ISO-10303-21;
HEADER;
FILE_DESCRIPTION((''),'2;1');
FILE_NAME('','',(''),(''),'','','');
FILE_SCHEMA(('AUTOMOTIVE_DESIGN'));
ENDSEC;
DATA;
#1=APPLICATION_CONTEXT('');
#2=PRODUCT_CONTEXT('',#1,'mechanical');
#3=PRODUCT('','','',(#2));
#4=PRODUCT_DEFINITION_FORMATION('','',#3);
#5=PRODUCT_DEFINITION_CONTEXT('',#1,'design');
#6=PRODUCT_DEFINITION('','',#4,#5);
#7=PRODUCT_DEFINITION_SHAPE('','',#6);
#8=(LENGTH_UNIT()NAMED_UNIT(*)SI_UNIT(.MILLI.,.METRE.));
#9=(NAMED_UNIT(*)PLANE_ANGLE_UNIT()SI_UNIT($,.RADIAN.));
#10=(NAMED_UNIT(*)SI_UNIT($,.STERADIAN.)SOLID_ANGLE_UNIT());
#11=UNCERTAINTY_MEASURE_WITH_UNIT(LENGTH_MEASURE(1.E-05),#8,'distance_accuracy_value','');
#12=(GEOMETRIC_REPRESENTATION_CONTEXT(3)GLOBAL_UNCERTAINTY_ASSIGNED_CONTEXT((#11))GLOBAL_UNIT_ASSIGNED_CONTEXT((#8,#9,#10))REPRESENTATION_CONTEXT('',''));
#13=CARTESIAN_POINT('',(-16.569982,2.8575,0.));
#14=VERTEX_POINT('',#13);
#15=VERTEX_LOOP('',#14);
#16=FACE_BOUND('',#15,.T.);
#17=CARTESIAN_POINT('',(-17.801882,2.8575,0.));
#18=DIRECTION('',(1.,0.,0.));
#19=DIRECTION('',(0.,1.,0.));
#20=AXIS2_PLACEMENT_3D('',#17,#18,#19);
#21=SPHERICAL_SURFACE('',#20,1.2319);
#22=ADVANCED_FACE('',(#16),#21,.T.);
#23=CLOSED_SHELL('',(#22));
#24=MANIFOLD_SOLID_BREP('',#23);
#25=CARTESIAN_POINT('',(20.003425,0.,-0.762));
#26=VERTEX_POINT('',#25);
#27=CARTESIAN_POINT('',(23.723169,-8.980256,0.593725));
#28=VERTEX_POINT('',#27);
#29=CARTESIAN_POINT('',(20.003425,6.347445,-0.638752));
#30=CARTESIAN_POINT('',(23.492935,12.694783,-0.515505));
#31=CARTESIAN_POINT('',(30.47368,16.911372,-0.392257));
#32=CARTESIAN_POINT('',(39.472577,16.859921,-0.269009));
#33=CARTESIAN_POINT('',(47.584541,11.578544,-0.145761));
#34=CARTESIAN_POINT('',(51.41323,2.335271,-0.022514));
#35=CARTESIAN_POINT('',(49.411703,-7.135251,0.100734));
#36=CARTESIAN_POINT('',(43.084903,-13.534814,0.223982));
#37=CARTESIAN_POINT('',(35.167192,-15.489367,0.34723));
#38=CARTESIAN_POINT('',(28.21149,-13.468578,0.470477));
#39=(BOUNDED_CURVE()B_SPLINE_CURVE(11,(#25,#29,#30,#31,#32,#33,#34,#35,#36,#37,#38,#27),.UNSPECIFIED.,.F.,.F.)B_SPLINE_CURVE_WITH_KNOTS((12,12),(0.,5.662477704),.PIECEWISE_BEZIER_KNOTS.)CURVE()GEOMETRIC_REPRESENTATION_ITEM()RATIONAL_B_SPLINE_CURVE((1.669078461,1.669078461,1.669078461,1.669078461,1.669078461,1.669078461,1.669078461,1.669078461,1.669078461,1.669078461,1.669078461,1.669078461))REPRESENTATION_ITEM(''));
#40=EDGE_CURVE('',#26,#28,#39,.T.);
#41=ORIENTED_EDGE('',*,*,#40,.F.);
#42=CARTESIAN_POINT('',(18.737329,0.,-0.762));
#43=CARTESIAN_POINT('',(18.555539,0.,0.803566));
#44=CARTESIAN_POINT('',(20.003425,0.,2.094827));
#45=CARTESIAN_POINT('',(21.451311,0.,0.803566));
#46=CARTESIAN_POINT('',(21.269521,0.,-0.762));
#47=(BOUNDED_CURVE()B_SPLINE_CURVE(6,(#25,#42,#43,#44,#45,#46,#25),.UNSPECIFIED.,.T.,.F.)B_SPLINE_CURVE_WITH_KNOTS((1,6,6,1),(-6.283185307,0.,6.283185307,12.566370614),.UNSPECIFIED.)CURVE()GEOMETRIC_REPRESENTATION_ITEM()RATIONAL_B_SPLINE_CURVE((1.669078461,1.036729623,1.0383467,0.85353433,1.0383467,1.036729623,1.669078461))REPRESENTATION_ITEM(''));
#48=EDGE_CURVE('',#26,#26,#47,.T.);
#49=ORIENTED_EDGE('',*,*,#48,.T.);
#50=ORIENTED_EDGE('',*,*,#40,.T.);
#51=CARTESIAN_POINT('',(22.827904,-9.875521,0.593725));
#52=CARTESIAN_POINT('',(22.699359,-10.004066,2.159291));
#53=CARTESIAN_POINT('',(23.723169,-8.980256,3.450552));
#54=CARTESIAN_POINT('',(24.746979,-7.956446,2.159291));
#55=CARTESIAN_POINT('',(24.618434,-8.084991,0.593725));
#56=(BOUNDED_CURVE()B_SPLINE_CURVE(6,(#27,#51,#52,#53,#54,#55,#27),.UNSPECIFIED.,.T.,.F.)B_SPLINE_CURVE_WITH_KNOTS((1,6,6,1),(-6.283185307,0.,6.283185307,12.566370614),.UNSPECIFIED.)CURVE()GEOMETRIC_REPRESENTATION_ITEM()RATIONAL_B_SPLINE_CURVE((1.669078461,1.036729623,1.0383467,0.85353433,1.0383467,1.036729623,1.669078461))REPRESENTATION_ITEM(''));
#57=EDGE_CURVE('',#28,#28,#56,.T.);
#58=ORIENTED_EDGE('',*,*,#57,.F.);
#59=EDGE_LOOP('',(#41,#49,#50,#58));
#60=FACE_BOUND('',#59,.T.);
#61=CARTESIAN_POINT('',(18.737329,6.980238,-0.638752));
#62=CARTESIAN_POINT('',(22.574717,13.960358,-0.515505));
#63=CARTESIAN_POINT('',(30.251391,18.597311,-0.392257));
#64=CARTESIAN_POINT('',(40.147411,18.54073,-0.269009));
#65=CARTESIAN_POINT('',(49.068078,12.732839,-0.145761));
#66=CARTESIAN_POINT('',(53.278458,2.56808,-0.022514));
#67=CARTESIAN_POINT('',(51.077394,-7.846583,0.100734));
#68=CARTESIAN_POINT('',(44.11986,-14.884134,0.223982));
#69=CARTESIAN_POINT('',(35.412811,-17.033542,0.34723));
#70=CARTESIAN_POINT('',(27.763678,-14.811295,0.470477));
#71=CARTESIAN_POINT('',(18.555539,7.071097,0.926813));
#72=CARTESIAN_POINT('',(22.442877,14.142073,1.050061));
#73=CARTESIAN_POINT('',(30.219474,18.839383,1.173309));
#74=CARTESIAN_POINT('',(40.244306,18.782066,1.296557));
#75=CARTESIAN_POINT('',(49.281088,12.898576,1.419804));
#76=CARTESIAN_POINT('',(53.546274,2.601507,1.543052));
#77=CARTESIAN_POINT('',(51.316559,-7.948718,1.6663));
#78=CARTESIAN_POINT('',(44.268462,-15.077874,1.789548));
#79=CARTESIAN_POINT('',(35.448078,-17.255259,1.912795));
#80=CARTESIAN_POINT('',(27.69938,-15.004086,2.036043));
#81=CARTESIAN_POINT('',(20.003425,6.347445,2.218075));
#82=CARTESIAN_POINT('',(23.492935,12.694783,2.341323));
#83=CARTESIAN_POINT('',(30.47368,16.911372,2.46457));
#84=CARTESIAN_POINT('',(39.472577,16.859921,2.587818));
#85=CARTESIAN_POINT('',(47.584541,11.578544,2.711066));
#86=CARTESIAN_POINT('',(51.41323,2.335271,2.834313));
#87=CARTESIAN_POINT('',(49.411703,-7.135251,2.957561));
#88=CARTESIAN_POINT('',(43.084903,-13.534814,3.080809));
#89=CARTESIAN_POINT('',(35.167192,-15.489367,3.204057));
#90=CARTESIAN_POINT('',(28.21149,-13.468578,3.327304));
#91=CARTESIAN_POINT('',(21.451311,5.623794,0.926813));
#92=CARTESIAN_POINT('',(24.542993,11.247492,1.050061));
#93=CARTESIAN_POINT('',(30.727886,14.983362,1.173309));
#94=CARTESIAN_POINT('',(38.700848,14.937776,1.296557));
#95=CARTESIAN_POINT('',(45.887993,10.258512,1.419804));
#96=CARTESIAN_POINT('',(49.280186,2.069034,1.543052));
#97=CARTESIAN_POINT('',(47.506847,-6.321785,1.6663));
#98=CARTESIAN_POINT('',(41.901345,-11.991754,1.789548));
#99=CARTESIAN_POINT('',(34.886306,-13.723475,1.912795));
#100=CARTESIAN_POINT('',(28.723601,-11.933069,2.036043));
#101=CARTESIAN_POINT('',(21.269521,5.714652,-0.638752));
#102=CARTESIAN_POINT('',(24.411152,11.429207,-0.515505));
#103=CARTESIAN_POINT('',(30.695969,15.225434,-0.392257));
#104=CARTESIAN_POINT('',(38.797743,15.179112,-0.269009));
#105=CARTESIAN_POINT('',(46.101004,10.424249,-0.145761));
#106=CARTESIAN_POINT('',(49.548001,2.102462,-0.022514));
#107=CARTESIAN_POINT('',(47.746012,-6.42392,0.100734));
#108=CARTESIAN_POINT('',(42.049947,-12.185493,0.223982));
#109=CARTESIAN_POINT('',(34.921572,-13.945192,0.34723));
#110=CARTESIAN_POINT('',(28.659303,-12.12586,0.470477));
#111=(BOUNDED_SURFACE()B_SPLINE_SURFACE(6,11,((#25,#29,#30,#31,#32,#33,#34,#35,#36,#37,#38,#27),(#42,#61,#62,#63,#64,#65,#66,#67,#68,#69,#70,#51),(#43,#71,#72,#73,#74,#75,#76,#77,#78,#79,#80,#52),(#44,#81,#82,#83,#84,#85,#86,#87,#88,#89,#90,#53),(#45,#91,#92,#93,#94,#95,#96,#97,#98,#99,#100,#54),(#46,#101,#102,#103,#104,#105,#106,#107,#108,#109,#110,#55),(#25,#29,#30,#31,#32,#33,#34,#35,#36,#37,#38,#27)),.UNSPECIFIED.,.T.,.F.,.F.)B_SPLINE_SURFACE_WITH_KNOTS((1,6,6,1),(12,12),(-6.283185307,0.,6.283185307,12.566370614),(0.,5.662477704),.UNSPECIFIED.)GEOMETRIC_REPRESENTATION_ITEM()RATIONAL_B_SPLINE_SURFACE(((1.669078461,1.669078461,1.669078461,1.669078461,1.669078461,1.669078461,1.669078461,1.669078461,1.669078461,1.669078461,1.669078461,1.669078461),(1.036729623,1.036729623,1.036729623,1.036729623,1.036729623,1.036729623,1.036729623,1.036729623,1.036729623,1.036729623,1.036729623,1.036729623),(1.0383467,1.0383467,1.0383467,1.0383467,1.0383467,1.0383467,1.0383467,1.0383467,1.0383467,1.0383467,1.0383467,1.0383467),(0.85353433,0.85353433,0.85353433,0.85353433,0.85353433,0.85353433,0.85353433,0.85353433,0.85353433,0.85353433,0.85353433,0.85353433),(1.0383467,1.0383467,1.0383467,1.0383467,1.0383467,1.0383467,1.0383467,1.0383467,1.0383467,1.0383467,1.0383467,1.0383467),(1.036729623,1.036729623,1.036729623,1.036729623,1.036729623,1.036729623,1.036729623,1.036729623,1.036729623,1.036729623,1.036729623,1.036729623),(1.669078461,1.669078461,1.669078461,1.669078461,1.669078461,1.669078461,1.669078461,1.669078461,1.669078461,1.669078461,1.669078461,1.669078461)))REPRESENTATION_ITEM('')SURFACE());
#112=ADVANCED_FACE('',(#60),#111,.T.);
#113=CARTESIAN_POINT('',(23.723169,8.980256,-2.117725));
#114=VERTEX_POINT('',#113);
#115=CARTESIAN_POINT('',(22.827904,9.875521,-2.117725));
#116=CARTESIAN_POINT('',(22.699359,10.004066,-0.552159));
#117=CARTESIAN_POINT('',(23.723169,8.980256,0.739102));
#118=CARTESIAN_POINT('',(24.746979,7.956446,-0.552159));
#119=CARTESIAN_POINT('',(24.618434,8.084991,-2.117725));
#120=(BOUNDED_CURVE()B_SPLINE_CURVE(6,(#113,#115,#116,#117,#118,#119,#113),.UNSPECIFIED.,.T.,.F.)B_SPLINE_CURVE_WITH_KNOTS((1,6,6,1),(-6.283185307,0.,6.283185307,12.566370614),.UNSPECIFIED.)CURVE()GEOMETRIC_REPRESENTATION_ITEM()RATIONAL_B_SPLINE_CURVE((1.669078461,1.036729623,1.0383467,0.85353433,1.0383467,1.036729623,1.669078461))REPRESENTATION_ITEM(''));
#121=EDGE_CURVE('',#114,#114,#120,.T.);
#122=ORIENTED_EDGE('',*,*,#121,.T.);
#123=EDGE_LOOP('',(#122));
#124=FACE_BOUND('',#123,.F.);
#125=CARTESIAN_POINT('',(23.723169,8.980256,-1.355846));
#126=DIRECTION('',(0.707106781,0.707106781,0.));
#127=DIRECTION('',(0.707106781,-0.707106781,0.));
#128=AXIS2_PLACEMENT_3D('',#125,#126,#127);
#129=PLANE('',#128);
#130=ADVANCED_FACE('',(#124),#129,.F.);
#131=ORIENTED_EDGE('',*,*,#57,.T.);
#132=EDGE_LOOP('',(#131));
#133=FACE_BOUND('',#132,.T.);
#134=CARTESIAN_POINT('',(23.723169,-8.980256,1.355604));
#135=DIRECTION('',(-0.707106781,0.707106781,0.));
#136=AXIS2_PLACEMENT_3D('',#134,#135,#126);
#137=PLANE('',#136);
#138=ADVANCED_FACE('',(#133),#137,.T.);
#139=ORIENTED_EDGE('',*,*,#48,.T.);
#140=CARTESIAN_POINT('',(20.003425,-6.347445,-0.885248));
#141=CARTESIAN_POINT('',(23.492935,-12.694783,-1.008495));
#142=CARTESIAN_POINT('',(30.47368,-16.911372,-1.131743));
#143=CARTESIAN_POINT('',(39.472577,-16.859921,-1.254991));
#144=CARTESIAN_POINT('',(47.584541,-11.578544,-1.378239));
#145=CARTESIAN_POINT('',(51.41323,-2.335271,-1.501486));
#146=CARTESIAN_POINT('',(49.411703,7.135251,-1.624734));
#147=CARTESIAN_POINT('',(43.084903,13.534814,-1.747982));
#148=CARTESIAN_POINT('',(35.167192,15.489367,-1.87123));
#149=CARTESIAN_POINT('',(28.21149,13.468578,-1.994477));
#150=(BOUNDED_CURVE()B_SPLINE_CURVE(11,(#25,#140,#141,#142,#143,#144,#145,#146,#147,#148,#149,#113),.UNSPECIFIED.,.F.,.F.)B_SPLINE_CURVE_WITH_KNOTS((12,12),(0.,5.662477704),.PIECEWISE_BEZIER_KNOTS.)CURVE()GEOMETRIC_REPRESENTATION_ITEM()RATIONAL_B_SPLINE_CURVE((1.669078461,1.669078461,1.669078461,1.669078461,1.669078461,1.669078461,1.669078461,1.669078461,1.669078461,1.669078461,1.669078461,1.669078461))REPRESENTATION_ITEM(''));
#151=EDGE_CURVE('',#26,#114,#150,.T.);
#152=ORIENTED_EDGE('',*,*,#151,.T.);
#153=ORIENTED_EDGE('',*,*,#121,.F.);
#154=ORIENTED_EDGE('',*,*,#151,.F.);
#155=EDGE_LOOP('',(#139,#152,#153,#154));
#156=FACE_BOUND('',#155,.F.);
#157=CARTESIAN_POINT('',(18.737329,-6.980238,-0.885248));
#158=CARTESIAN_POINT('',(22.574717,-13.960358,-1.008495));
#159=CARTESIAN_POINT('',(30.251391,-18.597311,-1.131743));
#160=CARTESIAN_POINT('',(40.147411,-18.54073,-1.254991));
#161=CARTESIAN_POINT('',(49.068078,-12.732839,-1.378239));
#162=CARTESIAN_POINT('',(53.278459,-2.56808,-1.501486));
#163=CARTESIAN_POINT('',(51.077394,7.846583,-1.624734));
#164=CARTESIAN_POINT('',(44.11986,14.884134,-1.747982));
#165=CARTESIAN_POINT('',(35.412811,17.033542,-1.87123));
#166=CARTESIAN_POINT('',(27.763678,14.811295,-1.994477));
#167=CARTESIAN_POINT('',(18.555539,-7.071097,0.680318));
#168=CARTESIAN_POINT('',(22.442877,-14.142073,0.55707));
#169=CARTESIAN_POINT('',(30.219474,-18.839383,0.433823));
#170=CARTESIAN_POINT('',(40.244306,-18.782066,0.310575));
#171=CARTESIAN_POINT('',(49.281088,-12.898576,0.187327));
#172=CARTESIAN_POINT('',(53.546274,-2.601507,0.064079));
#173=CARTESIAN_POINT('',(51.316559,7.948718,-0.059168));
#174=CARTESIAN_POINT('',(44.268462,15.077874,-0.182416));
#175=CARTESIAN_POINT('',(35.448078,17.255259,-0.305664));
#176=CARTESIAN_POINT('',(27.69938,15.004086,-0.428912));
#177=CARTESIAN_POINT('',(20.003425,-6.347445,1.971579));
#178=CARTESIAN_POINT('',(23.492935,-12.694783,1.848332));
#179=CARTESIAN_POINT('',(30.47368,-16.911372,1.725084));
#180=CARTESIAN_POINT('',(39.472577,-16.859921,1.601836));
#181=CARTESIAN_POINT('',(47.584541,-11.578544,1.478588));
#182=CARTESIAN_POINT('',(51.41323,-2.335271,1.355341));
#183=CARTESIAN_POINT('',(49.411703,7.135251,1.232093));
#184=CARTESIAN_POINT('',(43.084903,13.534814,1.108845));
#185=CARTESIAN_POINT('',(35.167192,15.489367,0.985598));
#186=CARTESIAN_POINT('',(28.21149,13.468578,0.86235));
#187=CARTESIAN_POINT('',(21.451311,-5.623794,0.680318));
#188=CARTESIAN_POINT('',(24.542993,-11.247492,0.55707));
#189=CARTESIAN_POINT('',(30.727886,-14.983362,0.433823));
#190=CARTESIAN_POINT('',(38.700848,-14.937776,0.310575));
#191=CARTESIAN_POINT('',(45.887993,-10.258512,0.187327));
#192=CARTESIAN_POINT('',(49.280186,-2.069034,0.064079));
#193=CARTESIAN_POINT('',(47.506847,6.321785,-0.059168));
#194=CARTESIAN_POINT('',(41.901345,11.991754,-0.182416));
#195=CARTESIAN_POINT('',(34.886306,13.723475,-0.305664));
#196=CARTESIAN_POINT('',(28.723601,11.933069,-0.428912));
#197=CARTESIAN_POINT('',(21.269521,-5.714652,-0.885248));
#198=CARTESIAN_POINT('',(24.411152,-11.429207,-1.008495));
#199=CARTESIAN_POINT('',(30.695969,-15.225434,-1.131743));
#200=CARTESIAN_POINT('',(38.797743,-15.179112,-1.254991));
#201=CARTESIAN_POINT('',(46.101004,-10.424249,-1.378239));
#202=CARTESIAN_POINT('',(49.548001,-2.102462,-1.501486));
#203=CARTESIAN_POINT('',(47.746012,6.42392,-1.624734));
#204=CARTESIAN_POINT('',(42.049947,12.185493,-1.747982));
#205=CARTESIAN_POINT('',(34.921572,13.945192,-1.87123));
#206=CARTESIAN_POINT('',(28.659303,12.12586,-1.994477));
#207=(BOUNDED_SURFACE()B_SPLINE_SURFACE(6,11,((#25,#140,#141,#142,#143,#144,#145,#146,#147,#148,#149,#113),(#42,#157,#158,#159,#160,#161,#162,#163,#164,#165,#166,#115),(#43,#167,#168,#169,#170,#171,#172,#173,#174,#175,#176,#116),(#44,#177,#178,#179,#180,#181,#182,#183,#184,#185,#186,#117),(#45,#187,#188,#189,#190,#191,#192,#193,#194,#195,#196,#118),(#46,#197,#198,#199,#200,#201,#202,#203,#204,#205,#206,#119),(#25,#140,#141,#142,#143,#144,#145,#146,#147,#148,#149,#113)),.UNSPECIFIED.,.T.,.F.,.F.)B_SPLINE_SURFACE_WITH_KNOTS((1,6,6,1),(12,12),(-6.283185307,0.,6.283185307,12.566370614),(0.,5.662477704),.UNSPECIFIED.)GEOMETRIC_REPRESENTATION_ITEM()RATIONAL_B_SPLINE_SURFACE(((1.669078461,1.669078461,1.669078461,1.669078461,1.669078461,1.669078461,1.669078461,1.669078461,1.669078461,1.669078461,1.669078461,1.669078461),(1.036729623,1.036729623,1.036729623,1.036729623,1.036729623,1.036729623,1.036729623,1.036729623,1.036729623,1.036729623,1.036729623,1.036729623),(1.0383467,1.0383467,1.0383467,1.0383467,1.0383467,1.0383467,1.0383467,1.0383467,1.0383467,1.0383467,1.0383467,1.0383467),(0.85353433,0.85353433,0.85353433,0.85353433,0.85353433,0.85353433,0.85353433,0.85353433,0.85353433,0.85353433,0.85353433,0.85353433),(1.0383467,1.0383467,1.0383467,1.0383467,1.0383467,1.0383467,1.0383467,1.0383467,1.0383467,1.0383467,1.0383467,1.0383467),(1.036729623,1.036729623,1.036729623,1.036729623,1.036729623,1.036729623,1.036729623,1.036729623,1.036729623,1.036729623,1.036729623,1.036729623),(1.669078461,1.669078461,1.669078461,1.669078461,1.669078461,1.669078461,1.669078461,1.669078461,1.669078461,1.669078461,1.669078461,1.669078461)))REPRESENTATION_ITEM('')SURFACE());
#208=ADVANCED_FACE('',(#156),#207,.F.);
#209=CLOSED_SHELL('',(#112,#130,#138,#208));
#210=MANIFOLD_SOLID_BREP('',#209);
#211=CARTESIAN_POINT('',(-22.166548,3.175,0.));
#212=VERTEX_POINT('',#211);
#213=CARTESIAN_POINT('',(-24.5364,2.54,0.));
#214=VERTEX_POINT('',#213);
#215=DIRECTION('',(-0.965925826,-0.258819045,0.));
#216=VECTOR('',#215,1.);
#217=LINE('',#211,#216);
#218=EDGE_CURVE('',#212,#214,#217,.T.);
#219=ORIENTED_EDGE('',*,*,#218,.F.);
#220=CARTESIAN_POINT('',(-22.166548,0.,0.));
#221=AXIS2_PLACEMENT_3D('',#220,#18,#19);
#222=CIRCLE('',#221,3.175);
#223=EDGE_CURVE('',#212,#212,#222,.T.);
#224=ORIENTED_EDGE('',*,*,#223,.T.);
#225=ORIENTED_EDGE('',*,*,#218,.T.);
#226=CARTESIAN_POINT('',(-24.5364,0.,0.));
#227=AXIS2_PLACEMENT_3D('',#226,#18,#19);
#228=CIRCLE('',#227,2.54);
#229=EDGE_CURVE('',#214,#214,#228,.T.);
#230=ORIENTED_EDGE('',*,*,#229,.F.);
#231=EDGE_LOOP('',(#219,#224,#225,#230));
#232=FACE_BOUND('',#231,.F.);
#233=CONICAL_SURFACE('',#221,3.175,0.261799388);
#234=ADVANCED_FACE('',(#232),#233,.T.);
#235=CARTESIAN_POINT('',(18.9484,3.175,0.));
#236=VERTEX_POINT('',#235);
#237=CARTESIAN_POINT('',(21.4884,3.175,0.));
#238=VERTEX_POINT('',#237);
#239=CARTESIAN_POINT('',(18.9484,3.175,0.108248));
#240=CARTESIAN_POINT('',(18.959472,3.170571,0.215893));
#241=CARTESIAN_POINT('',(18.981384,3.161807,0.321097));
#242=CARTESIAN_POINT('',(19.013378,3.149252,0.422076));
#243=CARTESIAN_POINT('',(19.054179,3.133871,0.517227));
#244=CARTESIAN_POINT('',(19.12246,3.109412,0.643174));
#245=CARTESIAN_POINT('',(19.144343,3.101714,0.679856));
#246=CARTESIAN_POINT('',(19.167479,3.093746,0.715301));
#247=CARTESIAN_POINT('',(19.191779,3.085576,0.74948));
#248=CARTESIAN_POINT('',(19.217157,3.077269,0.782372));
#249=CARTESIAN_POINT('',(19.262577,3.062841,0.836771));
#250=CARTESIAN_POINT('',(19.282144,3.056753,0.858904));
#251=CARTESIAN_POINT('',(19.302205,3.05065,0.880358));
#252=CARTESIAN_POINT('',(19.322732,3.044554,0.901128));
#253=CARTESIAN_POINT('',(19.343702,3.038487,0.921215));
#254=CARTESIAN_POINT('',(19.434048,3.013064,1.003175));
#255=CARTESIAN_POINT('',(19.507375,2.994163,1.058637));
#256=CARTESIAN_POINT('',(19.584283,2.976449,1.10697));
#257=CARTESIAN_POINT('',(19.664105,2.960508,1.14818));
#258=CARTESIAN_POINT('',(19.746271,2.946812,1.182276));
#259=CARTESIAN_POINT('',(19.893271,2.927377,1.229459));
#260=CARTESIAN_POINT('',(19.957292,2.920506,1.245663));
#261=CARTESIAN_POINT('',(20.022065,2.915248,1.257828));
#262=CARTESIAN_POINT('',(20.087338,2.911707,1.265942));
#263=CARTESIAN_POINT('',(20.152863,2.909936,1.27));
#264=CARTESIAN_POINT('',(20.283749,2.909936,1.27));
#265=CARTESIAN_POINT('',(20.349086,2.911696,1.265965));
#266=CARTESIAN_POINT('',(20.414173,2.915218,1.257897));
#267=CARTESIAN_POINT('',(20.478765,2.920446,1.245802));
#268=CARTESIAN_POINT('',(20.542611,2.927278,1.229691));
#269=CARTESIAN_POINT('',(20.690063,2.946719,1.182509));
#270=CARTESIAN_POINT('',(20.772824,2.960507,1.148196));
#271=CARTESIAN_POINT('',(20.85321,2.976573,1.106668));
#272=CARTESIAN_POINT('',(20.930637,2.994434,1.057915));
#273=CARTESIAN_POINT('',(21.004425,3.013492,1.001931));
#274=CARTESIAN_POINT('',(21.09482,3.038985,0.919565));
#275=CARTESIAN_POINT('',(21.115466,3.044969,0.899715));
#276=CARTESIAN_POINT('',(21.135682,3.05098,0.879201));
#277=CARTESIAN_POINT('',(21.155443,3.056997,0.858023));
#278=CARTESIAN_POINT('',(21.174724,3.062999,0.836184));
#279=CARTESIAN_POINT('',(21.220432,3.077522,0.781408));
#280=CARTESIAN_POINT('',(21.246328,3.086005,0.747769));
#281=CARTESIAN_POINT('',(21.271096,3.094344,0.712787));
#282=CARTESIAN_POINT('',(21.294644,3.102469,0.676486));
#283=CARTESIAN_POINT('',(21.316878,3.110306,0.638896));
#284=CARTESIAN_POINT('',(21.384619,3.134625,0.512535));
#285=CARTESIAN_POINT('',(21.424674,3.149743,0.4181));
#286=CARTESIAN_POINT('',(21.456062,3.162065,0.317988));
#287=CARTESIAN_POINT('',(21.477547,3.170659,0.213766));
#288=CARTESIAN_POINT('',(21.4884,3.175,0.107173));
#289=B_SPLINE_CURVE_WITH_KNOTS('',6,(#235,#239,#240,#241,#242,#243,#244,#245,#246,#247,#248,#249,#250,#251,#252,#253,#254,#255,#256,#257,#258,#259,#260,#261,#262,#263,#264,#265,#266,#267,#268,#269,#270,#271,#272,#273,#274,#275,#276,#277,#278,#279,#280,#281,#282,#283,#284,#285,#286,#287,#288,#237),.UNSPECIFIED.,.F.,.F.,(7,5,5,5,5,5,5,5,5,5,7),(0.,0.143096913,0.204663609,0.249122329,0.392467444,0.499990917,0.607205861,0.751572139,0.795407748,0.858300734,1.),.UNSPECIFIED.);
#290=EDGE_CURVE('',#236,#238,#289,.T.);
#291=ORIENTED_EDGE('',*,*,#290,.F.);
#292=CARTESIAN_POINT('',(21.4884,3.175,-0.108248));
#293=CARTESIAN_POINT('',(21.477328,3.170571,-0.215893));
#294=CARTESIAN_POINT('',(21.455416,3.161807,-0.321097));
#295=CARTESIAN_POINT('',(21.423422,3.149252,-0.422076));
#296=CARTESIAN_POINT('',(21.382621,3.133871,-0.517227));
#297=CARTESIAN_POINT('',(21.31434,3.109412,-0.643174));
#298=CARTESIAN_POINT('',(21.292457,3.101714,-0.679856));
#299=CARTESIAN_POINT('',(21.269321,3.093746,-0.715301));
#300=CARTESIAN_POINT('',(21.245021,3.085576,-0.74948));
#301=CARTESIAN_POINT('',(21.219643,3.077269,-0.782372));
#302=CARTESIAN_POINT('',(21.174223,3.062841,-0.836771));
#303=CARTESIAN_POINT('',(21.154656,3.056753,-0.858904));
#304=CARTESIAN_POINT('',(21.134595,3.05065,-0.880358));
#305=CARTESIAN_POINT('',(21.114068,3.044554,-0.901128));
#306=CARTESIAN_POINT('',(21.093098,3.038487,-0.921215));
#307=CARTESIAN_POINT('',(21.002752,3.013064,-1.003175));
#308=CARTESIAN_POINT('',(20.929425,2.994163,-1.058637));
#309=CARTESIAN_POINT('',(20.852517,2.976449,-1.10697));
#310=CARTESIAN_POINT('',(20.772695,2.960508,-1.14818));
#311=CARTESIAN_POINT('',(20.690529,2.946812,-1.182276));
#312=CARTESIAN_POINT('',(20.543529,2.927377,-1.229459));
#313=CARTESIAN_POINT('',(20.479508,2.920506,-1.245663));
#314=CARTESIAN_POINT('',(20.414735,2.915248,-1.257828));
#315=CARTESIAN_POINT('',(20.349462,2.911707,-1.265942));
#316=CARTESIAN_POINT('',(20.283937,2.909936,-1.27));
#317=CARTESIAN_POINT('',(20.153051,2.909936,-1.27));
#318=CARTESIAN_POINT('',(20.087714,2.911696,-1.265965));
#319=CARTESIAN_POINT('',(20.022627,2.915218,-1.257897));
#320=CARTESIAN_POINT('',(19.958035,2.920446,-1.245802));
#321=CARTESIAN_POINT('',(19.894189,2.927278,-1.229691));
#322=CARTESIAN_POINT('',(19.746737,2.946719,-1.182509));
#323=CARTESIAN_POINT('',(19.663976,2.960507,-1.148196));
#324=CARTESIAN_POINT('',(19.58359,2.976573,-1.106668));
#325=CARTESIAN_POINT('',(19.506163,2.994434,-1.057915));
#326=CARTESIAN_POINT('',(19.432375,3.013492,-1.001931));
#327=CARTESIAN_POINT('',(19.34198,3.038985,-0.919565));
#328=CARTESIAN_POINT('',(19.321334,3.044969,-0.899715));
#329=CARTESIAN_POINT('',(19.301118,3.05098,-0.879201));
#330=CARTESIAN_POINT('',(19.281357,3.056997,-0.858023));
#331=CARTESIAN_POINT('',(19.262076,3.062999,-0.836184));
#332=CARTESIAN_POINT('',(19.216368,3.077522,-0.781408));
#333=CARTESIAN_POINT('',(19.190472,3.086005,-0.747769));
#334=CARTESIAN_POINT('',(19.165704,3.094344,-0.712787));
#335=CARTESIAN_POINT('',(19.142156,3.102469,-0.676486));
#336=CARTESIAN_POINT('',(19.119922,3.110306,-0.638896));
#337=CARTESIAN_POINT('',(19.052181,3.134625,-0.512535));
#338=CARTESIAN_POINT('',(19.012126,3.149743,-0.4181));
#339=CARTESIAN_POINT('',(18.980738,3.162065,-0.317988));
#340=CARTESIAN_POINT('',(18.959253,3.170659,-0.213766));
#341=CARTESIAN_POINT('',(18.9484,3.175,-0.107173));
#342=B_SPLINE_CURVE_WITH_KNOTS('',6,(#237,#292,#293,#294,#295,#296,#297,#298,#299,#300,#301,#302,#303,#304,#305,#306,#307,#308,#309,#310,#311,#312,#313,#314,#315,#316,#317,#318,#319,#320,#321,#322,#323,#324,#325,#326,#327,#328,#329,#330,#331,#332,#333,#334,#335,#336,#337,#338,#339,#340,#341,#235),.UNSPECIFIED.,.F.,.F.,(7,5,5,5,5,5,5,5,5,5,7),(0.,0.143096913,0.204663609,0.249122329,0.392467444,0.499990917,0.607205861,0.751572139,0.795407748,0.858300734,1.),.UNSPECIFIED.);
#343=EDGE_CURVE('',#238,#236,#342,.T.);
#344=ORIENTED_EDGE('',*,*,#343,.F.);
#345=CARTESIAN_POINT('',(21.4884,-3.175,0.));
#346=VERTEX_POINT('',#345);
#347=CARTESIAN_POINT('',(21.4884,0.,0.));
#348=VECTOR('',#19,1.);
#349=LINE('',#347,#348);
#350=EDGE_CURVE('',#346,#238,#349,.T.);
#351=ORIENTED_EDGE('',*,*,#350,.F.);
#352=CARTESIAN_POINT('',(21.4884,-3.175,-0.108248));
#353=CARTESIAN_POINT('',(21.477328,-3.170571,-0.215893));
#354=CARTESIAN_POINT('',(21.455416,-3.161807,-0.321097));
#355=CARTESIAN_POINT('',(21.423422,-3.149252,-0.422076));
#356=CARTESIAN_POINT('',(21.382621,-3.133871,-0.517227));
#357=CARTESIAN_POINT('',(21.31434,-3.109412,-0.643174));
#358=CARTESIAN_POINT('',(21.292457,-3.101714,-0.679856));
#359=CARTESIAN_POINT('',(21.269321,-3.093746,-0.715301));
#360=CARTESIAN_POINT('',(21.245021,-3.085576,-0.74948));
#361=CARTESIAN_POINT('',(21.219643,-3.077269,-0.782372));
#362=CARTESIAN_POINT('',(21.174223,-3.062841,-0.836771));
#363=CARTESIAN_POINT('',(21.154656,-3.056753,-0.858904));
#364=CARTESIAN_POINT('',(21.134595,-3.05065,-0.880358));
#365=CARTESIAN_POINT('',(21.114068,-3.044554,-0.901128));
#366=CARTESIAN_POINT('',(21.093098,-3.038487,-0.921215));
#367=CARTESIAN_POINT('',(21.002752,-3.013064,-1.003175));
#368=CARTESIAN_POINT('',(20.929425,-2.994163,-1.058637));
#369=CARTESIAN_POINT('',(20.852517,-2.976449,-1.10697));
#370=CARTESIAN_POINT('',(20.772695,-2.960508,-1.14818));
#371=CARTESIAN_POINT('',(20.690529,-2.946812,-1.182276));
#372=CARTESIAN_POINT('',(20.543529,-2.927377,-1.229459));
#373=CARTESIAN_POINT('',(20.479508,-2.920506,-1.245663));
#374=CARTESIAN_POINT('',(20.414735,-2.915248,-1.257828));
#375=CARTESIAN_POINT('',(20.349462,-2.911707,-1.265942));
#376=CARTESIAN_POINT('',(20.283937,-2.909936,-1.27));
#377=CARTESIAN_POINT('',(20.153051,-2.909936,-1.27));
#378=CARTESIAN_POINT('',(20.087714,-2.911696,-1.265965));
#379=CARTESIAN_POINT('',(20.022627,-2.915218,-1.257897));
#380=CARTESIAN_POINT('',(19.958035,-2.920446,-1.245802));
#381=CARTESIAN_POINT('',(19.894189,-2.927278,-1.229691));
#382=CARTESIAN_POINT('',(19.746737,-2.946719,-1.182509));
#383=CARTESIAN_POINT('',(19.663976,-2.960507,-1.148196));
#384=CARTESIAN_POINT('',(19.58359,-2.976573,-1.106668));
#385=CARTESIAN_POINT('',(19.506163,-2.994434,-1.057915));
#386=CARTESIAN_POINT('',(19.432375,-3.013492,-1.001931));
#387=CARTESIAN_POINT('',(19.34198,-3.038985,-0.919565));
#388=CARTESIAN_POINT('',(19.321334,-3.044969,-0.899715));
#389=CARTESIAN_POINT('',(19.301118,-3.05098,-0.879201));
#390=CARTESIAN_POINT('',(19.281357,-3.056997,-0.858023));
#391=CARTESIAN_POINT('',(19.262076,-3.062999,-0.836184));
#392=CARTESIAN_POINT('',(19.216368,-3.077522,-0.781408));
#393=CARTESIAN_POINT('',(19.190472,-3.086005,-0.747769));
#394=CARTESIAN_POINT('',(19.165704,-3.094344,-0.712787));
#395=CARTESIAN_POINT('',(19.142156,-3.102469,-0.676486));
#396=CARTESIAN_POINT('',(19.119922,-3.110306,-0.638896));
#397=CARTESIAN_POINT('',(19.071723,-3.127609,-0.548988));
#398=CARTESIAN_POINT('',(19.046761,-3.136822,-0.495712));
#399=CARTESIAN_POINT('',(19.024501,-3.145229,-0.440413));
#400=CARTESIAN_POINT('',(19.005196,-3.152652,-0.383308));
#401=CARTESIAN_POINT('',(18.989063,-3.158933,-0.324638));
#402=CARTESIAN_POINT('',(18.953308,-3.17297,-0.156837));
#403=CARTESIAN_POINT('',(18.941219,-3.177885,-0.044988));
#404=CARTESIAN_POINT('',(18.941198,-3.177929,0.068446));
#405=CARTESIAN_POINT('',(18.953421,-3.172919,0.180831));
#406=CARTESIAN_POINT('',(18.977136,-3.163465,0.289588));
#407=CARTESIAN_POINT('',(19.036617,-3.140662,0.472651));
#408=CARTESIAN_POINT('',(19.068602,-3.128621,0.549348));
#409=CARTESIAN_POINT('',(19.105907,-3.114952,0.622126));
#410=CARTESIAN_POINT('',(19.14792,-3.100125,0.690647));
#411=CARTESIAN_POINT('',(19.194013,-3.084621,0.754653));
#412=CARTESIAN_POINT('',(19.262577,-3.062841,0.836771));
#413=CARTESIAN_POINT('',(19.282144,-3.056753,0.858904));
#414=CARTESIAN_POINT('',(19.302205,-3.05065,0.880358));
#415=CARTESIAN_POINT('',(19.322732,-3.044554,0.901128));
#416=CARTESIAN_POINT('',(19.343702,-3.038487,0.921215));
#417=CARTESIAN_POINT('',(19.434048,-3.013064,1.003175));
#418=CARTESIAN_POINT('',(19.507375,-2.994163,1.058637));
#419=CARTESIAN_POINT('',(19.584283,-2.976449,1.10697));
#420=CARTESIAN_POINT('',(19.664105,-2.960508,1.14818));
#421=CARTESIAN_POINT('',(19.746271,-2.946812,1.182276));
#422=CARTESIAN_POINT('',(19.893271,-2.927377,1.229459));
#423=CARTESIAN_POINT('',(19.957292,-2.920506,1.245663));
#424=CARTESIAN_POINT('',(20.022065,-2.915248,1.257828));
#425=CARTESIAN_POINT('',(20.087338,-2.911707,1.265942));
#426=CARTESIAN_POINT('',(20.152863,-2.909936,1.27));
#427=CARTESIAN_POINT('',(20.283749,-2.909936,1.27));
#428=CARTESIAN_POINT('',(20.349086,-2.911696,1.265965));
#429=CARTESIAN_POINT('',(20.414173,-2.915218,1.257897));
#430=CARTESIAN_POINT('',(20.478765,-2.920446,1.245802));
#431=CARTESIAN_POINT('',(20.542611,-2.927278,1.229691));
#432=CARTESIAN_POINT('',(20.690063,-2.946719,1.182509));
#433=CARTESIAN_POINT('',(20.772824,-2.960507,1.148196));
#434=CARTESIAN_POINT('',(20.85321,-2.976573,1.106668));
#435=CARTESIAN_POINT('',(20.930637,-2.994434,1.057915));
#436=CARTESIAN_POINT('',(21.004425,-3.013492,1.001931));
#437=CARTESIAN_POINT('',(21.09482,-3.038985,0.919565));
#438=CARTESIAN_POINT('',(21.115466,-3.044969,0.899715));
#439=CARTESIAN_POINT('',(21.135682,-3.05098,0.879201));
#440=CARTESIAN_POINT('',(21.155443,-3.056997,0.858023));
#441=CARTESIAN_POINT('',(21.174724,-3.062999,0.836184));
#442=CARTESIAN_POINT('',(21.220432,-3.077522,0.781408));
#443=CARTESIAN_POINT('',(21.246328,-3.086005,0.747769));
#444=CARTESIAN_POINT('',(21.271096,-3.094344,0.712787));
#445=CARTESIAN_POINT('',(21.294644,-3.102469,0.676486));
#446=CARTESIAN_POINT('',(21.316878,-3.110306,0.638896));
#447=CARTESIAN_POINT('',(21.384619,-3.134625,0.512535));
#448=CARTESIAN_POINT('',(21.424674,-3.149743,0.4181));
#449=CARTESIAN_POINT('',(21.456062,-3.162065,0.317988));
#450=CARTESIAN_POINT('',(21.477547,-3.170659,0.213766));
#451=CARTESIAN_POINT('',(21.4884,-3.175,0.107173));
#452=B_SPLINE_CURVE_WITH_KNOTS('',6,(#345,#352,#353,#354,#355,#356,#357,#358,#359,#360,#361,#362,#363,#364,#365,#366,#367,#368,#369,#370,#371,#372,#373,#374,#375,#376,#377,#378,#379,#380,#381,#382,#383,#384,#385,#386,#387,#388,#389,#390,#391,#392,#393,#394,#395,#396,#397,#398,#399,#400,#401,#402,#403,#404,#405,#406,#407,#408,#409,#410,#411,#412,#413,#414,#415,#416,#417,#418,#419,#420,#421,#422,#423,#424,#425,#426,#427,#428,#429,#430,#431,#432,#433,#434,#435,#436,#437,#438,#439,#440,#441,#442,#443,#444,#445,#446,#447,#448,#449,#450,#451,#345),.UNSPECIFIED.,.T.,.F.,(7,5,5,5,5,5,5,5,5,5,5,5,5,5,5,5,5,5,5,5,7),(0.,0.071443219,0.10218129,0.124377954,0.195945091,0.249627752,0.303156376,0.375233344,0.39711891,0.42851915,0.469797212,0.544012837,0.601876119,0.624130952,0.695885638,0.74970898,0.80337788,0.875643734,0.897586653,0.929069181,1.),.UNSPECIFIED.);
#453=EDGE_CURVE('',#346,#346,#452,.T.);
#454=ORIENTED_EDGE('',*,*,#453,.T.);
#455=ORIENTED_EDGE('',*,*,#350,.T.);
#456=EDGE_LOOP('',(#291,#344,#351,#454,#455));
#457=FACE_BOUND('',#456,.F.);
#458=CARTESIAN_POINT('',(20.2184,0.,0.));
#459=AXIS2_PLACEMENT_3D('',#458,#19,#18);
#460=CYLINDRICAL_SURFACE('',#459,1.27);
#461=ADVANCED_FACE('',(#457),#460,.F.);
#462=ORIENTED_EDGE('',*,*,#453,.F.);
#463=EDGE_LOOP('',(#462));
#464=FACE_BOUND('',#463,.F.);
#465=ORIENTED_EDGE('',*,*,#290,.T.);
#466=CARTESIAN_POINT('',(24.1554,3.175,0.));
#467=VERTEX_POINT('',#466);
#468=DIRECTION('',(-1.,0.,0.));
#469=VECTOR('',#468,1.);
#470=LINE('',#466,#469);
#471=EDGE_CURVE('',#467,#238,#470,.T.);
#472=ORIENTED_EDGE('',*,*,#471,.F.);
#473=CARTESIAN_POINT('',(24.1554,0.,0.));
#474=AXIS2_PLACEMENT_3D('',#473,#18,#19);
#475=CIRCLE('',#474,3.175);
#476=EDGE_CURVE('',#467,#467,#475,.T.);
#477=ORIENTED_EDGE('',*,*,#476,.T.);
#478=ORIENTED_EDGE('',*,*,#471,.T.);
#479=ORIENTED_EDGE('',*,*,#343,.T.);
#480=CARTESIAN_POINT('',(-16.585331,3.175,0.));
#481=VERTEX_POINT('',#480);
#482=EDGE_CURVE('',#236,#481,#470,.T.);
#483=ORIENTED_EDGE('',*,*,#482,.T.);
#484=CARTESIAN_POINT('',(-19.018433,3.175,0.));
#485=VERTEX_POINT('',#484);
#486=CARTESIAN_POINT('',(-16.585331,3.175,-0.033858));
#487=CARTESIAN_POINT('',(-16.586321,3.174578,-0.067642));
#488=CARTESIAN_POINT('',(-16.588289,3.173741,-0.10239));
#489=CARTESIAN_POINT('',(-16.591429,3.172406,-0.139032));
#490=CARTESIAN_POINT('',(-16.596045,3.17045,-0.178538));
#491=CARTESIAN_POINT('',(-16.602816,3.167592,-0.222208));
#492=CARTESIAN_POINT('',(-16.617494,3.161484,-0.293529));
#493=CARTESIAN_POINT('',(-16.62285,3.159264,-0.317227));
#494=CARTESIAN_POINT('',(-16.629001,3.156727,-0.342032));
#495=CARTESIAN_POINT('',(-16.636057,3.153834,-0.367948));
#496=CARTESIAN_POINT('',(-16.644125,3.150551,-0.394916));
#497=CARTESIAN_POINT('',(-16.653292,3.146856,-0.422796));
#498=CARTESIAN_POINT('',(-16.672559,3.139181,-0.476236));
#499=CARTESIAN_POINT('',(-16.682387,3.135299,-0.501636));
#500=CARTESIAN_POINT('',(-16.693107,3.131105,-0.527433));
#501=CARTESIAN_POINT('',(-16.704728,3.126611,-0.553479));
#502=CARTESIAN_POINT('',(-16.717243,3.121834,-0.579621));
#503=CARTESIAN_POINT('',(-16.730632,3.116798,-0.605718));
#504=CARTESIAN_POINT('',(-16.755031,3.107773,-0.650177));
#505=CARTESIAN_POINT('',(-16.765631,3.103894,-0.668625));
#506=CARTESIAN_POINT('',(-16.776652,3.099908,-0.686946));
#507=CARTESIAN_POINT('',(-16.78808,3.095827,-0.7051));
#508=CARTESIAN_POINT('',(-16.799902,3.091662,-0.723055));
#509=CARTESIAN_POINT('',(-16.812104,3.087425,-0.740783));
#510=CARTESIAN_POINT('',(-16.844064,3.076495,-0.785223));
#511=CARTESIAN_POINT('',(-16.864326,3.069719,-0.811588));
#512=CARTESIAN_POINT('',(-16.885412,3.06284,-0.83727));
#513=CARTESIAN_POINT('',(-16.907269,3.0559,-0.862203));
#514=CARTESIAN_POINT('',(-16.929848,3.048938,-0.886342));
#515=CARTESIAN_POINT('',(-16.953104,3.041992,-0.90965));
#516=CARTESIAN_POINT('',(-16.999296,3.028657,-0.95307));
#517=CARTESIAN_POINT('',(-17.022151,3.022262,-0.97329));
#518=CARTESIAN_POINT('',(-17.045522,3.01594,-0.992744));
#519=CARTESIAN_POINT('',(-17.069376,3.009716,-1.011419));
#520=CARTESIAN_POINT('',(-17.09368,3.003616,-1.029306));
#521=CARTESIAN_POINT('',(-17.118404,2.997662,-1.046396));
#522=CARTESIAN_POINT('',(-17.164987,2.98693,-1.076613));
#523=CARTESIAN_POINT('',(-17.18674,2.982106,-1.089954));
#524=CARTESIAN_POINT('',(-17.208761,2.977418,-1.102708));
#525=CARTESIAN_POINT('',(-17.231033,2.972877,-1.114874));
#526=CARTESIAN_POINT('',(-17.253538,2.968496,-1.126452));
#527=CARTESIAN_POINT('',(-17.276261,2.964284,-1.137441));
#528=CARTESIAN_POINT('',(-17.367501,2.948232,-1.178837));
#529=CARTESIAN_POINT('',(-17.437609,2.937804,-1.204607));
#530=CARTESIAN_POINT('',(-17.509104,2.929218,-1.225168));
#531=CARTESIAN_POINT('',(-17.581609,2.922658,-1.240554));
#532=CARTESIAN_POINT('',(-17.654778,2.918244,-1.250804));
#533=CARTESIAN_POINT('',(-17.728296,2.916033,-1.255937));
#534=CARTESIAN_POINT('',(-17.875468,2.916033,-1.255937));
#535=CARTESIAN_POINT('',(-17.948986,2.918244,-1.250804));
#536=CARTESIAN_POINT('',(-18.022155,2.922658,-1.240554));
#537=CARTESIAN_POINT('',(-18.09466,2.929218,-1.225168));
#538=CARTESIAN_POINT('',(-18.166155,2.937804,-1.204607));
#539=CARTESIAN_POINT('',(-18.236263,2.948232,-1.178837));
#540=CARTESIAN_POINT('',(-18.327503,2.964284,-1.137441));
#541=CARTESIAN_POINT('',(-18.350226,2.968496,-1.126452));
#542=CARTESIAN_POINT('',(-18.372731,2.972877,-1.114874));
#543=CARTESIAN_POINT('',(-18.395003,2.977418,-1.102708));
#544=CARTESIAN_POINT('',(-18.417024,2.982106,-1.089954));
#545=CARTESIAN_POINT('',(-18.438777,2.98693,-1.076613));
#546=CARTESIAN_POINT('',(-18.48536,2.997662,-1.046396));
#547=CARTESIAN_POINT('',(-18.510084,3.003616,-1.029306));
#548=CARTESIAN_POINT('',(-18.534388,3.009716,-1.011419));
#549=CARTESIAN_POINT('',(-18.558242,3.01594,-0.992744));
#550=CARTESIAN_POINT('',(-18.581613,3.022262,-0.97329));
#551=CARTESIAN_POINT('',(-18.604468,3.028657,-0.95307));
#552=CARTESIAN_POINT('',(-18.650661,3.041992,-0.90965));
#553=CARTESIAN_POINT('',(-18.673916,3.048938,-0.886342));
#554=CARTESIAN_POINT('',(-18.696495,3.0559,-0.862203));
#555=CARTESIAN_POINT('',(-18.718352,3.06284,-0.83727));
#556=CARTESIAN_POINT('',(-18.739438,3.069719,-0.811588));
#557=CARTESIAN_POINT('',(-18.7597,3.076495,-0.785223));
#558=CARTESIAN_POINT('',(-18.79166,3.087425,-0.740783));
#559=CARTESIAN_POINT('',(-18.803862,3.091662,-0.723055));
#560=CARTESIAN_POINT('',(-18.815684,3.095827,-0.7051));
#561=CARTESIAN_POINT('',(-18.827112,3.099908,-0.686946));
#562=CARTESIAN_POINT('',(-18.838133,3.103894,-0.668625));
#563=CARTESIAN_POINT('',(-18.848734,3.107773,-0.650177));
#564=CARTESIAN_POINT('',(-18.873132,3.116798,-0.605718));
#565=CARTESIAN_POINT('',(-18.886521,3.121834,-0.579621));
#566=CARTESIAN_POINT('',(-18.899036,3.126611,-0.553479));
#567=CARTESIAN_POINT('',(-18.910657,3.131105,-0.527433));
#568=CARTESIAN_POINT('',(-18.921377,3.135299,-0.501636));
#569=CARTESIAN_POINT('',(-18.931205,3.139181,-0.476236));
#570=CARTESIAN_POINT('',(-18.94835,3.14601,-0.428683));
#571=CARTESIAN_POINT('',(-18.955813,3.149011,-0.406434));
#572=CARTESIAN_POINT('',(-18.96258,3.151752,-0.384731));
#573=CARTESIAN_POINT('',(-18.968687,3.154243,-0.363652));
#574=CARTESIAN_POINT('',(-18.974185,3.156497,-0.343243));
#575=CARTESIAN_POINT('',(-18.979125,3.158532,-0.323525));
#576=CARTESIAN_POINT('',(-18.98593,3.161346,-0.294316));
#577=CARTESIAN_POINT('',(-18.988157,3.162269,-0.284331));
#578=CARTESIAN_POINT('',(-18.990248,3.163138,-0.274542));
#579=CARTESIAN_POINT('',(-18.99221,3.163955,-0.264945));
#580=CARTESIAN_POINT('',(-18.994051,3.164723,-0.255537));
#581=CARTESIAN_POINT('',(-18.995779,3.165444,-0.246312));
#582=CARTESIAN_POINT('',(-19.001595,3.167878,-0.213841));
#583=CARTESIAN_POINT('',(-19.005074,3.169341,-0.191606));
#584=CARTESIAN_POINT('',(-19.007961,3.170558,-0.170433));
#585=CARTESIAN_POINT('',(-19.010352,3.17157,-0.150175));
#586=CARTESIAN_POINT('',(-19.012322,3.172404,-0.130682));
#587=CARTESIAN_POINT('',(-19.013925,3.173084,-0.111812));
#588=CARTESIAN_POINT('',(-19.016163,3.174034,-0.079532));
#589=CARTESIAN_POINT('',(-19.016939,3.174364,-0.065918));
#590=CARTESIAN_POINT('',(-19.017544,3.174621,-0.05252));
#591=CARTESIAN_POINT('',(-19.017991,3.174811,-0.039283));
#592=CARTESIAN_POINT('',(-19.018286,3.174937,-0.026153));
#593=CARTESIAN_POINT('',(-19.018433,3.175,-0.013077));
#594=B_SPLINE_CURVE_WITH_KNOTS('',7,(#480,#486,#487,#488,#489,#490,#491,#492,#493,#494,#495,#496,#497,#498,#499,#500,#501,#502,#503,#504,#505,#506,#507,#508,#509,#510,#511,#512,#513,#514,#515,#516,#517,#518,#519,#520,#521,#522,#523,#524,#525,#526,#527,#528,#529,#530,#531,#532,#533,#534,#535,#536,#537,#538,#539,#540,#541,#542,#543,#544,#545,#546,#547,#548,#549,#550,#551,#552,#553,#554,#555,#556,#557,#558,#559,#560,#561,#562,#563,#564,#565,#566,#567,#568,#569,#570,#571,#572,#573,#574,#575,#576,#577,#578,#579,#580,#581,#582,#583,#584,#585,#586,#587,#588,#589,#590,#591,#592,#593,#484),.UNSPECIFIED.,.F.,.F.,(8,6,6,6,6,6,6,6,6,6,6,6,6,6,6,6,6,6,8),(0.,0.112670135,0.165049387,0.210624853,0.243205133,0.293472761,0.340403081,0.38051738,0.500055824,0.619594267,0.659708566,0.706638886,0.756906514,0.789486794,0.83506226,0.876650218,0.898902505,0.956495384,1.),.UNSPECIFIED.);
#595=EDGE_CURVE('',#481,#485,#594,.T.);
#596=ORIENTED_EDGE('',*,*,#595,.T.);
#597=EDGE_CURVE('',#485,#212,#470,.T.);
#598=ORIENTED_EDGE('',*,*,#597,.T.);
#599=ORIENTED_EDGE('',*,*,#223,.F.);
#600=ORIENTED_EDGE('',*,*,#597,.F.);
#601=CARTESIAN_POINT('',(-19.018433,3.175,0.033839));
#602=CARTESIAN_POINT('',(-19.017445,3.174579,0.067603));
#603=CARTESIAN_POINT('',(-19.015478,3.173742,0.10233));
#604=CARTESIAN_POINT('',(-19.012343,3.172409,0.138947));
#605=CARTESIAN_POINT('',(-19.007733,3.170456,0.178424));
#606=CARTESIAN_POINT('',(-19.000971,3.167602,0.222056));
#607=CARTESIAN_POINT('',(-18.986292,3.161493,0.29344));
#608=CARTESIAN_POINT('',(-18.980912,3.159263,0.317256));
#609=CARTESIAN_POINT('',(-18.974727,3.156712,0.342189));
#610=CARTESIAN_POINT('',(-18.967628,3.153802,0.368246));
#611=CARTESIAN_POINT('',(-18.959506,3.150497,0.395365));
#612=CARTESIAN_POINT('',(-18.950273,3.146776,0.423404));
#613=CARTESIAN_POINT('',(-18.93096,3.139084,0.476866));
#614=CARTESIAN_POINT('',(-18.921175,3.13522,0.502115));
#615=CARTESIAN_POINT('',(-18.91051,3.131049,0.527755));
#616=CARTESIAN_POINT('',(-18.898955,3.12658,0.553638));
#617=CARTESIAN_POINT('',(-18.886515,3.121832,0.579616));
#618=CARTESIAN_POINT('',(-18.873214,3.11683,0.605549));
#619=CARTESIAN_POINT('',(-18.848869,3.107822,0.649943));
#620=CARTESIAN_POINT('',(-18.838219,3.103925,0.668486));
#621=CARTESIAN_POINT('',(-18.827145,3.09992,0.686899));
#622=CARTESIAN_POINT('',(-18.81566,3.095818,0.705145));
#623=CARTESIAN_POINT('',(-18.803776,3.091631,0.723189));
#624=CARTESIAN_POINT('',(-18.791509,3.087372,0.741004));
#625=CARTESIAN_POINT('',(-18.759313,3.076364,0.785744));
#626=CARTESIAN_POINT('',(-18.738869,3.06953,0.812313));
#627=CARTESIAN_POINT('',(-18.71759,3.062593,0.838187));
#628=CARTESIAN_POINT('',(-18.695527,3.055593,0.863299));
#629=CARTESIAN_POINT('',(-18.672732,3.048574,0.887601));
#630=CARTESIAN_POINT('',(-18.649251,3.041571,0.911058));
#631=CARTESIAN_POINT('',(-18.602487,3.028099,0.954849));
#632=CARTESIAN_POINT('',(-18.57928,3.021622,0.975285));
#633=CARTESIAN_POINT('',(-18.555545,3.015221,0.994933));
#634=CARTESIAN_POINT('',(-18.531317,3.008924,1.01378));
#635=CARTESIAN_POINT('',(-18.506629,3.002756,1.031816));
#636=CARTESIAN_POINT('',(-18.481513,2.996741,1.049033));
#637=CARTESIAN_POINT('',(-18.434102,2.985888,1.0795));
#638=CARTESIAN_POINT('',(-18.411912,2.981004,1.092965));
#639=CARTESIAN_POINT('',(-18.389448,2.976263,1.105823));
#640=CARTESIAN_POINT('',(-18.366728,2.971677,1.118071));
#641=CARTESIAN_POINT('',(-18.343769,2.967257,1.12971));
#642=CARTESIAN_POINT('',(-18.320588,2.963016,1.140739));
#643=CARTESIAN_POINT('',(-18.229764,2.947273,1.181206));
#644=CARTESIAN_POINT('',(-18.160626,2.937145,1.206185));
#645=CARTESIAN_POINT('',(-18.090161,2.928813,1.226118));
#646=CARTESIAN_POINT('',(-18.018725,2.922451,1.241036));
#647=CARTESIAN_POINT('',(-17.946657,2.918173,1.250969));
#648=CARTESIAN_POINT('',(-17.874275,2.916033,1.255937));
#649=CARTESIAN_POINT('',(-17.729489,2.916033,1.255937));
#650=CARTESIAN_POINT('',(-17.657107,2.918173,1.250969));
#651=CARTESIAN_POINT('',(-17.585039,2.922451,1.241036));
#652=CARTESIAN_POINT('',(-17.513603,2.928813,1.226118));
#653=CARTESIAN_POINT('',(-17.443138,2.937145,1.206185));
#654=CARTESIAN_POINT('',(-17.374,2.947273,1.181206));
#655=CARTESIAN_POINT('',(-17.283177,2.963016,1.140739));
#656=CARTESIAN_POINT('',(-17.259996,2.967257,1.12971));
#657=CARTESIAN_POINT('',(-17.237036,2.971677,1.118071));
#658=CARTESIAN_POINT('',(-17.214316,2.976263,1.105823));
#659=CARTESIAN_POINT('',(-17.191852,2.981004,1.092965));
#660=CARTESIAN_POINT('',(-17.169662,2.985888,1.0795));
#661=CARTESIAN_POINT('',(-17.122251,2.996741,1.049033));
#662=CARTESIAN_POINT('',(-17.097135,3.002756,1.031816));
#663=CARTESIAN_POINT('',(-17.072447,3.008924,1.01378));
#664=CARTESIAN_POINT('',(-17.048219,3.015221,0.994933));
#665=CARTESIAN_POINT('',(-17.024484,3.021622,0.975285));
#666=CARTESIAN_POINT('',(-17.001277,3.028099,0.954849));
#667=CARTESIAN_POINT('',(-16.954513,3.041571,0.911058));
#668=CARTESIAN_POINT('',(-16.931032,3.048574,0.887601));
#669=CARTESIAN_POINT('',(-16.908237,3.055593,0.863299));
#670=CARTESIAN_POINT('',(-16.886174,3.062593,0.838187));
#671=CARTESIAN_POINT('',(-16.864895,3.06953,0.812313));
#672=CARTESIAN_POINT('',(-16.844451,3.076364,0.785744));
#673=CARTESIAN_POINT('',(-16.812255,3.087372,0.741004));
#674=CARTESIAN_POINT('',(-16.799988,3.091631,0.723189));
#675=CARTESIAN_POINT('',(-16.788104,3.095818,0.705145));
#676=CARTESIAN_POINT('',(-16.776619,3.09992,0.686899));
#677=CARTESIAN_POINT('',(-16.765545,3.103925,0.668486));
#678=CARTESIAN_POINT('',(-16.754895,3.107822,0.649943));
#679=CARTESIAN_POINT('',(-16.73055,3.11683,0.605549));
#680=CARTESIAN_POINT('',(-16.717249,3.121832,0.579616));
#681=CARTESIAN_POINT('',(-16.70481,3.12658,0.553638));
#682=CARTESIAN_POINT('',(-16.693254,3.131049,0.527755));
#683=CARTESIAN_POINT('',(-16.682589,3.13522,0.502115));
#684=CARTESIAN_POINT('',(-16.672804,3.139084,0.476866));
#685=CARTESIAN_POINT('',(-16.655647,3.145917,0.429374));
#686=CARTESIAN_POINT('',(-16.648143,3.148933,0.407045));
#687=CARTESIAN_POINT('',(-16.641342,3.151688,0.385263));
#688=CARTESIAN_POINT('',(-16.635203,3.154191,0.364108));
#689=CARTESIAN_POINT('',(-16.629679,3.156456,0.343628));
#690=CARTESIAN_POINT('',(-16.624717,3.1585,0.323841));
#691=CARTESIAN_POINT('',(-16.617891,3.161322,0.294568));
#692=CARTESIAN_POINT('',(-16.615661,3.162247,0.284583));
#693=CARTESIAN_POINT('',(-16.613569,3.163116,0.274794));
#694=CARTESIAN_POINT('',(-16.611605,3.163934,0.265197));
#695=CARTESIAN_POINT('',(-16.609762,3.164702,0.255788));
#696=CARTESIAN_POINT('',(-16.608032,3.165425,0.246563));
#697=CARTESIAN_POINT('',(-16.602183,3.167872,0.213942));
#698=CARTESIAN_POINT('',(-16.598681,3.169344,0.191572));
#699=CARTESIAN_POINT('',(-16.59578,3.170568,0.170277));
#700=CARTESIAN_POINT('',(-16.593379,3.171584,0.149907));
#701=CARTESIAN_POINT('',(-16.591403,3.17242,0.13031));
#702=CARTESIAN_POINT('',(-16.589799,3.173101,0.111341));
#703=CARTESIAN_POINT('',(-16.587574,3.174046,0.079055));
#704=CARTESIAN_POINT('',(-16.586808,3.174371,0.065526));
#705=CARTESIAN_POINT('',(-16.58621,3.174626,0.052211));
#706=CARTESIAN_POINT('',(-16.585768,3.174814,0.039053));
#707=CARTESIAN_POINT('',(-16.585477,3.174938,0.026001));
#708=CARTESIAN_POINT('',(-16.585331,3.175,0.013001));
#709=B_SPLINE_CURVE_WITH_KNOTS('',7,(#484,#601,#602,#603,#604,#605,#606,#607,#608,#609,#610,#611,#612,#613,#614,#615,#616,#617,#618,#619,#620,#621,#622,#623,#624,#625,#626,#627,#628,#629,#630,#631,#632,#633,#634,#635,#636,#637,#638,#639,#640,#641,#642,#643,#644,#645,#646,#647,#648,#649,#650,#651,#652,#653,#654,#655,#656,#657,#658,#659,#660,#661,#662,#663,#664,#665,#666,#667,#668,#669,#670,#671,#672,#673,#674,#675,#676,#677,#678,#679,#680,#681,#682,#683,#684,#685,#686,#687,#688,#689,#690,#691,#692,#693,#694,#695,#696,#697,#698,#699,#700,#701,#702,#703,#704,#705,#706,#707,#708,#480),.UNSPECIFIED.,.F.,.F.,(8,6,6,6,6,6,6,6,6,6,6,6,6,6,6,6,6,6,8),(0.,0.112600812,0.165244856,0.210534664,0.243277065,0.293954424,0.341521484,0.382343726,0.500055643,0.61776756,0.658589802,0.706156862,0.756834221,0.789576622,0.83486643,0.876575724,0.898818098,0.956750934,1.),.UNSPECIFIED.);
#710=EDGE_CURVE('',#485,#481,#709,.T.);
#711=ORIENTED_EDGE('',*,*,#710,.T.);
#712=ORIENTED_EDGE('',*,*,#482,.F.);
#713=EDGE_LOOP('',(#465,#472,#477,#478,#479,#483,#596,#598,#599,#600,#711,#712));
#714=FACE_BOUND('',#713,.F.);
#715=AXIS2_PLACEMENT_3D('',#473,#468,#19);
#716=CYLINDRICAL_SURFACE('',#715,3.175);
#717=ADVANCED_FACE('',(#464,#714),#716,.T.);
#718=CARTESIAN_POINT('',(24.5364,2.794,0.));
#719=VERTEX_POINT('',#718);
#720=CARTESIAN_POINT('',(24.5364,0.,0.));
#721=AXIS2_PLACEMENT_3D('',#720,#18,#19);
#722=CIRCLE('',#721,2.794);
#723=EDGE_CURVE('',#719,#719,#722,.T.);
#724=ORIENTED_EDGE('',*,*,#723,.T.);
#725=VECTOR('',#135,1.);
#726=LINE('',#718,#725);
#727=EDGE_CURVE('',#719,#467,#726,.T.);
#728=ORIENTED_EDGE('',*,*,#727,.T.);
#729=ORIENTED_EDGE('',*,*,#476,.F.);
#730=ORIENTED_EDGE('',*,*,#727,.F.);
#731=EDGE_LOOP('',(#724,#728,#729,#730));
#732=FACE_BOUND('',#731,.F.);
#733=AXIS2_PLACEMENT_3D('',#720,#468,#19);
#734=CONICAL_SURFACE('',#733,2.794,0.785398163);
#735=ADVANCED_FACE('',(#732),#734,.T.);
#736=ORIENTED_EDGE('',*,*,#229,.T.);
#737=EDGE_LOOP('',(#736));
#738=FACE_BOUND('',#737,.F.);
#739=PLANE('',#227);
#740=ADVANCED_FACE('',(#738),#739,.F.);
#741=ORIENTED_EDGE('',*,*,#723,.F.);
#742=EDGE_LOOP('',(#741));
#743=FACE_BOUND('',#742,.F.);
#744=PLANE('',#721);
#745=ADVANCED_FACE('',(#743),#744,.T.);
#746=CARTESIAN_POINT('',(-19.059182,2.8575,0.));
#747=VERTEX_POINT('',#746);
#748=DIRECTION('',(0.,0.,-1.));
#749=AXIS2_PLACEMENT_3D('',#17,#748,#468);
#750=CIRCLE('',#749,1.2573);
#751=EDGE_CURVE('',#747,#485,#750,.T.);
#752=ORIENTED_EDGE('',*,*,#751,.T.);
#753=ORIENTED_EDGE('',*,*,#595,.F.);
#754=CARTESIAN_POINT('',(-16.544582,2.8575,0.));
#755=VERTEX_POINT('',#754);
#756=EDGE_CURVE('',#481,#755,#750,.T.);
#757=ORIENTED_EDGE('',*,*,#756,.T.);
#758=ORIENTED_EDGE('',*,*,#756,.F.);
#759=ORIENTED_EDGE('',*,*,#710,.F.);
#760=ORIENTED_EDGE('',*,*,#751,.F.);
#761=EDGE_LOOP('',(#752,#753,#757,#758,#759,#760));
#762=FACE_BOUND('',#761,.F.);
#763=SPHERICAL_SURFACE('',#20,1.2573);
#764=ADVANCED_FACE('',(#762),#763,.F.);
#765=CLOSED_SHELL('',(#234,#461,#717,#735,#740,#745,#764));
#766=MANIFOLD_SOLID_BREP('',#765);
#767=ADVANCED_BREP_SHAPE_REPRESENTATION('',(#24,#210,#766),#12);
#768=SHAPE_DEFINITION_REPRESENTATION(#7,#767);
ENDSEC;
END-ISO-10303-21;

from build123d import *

# Parameters (mm, degrees)
SKETCH4_W          = 1.27
SKETCH4_H          = 6.35
SWEEP1_PITCH       = 1.5494
SWEEP1_HEIGHT      = 1.355725
SWEEP1_RADIUS      = 13.462
SKETCH6_R          = 0.762
SWEEP2_PITCH       = 1.5494
SWEEP2_HEIGHT      = 1.355725
SWEEP2_RADIUS      = 13.462
SWEEP2_START_ANGLE = -180
SKETCH6_2_R        = 0.762


with BuildPart() as part:
    # Sketch1 → Revolve1 (revolve)
    with BuildSketch(Plane.XY):
        Polygon((24.5364, 2.794), (24.1554, 3.175), (-22.166547737, 3.175), (-24.5364, 2.54), (-24.5364, 0), (24.5364, 0), align=None)
    revolve(axis=Axis((24.5364, 0, 0), (1, 0, 0)))

    # Sketch2 → Cut-Revolve1 (revolve, cut)
    with BuildSketch(Plane.XY):
        with BuildLine():
            Line((-16.544582051, 2.8575), (-19.059182051, 2.8575))
            ThreePointArc((-19.059182051, 2.8575), (-17.801882051, 4.1148), (-16.544582051, 2.8575))
        make_face()
    revolve(axis=Axis((-16.544582051, 2.8575, 0), (1, 0, 0)), mode=Mode.SUBTRACT)

    # Sketch4 → Cut-Revolve2 (revolve, cut)
    with BuildSketch(Plane.XY):
        with Locations((20.8534, 0)):
            Rectangle(SKETCH4_W, SKETCH4_H)
    revolve(axis=Axis((20.2184, -3.175, 0), (0, 1, 0)), mode=Mode.SUBTRACT)


with BuildPart() as body_2:
    # Sketch3 → Revolve2 (revolve)
    with BuildSketch(Plane.XY):
        with BuildLine():
            Line((-16.569982051, 2.8575), (-19.033782051, 2.8575))
            ThreePointArc((-19.033782051, 2.8575), (-17.801882051, 4.0894), (-16.569982051, 2.8575))
        make_face()
    revolve(axis=Axis((-16.569982051, 2.8575, 0), (1, 0, 0)))


with BuildPart() as body_3:
    # Sweep1: sweep along a helix
    with BuildLine() as sweep1_path:
        Helix(SWEEP1_PITCH, SWEEP1_HEIGHT, SWEEP1_RADIUS, center=(32.703425091, 0, 0), direction=(0, 0, -1), lefthand=True)
    # Sketch6 → Sweep1 (sweep)
    with BuildSketch(Plane(origin=(114.003847968, 0, 0), x_dir=(0, 0, -1), z_dir=(0, 1, 0))):
        with Locations((0, 94.000422877)):
            Circle(SKETCH6_R)
    sweep(path=sweep1_path.line, is_frenet=True)

    # Sweep2: sweep along a helix
    with BuildLine() as sweep2_path:
        add(Helix(SWEEP2_PITCH, SWEEP2_HEIGHT, SWEEP2_RADIUS, center=(32.703425091, 0, 0), direction=(0, 0, 1), lefthand=True, mode=Mode.PRIVATE).rotate(Axis((32.703425091, 0, 0), (0, 0, 1)), SWEEP2_START_ANGLE))
    # Sketch6<2> → Sweep2 (sweep)
    with BuildSketch(Plane(origin=(114.003847968, 0, 0), x_dir=(0, 0, -1), z_dir=(0, 1, 0))):
        with Locations((0, 94.000422877)):
            Circle(SKETCH6_2_R)
    sweep(path=sweep2_path.line, is_frenet=True)


solid = Compound([part.part, body_2.part, body_3.part])
